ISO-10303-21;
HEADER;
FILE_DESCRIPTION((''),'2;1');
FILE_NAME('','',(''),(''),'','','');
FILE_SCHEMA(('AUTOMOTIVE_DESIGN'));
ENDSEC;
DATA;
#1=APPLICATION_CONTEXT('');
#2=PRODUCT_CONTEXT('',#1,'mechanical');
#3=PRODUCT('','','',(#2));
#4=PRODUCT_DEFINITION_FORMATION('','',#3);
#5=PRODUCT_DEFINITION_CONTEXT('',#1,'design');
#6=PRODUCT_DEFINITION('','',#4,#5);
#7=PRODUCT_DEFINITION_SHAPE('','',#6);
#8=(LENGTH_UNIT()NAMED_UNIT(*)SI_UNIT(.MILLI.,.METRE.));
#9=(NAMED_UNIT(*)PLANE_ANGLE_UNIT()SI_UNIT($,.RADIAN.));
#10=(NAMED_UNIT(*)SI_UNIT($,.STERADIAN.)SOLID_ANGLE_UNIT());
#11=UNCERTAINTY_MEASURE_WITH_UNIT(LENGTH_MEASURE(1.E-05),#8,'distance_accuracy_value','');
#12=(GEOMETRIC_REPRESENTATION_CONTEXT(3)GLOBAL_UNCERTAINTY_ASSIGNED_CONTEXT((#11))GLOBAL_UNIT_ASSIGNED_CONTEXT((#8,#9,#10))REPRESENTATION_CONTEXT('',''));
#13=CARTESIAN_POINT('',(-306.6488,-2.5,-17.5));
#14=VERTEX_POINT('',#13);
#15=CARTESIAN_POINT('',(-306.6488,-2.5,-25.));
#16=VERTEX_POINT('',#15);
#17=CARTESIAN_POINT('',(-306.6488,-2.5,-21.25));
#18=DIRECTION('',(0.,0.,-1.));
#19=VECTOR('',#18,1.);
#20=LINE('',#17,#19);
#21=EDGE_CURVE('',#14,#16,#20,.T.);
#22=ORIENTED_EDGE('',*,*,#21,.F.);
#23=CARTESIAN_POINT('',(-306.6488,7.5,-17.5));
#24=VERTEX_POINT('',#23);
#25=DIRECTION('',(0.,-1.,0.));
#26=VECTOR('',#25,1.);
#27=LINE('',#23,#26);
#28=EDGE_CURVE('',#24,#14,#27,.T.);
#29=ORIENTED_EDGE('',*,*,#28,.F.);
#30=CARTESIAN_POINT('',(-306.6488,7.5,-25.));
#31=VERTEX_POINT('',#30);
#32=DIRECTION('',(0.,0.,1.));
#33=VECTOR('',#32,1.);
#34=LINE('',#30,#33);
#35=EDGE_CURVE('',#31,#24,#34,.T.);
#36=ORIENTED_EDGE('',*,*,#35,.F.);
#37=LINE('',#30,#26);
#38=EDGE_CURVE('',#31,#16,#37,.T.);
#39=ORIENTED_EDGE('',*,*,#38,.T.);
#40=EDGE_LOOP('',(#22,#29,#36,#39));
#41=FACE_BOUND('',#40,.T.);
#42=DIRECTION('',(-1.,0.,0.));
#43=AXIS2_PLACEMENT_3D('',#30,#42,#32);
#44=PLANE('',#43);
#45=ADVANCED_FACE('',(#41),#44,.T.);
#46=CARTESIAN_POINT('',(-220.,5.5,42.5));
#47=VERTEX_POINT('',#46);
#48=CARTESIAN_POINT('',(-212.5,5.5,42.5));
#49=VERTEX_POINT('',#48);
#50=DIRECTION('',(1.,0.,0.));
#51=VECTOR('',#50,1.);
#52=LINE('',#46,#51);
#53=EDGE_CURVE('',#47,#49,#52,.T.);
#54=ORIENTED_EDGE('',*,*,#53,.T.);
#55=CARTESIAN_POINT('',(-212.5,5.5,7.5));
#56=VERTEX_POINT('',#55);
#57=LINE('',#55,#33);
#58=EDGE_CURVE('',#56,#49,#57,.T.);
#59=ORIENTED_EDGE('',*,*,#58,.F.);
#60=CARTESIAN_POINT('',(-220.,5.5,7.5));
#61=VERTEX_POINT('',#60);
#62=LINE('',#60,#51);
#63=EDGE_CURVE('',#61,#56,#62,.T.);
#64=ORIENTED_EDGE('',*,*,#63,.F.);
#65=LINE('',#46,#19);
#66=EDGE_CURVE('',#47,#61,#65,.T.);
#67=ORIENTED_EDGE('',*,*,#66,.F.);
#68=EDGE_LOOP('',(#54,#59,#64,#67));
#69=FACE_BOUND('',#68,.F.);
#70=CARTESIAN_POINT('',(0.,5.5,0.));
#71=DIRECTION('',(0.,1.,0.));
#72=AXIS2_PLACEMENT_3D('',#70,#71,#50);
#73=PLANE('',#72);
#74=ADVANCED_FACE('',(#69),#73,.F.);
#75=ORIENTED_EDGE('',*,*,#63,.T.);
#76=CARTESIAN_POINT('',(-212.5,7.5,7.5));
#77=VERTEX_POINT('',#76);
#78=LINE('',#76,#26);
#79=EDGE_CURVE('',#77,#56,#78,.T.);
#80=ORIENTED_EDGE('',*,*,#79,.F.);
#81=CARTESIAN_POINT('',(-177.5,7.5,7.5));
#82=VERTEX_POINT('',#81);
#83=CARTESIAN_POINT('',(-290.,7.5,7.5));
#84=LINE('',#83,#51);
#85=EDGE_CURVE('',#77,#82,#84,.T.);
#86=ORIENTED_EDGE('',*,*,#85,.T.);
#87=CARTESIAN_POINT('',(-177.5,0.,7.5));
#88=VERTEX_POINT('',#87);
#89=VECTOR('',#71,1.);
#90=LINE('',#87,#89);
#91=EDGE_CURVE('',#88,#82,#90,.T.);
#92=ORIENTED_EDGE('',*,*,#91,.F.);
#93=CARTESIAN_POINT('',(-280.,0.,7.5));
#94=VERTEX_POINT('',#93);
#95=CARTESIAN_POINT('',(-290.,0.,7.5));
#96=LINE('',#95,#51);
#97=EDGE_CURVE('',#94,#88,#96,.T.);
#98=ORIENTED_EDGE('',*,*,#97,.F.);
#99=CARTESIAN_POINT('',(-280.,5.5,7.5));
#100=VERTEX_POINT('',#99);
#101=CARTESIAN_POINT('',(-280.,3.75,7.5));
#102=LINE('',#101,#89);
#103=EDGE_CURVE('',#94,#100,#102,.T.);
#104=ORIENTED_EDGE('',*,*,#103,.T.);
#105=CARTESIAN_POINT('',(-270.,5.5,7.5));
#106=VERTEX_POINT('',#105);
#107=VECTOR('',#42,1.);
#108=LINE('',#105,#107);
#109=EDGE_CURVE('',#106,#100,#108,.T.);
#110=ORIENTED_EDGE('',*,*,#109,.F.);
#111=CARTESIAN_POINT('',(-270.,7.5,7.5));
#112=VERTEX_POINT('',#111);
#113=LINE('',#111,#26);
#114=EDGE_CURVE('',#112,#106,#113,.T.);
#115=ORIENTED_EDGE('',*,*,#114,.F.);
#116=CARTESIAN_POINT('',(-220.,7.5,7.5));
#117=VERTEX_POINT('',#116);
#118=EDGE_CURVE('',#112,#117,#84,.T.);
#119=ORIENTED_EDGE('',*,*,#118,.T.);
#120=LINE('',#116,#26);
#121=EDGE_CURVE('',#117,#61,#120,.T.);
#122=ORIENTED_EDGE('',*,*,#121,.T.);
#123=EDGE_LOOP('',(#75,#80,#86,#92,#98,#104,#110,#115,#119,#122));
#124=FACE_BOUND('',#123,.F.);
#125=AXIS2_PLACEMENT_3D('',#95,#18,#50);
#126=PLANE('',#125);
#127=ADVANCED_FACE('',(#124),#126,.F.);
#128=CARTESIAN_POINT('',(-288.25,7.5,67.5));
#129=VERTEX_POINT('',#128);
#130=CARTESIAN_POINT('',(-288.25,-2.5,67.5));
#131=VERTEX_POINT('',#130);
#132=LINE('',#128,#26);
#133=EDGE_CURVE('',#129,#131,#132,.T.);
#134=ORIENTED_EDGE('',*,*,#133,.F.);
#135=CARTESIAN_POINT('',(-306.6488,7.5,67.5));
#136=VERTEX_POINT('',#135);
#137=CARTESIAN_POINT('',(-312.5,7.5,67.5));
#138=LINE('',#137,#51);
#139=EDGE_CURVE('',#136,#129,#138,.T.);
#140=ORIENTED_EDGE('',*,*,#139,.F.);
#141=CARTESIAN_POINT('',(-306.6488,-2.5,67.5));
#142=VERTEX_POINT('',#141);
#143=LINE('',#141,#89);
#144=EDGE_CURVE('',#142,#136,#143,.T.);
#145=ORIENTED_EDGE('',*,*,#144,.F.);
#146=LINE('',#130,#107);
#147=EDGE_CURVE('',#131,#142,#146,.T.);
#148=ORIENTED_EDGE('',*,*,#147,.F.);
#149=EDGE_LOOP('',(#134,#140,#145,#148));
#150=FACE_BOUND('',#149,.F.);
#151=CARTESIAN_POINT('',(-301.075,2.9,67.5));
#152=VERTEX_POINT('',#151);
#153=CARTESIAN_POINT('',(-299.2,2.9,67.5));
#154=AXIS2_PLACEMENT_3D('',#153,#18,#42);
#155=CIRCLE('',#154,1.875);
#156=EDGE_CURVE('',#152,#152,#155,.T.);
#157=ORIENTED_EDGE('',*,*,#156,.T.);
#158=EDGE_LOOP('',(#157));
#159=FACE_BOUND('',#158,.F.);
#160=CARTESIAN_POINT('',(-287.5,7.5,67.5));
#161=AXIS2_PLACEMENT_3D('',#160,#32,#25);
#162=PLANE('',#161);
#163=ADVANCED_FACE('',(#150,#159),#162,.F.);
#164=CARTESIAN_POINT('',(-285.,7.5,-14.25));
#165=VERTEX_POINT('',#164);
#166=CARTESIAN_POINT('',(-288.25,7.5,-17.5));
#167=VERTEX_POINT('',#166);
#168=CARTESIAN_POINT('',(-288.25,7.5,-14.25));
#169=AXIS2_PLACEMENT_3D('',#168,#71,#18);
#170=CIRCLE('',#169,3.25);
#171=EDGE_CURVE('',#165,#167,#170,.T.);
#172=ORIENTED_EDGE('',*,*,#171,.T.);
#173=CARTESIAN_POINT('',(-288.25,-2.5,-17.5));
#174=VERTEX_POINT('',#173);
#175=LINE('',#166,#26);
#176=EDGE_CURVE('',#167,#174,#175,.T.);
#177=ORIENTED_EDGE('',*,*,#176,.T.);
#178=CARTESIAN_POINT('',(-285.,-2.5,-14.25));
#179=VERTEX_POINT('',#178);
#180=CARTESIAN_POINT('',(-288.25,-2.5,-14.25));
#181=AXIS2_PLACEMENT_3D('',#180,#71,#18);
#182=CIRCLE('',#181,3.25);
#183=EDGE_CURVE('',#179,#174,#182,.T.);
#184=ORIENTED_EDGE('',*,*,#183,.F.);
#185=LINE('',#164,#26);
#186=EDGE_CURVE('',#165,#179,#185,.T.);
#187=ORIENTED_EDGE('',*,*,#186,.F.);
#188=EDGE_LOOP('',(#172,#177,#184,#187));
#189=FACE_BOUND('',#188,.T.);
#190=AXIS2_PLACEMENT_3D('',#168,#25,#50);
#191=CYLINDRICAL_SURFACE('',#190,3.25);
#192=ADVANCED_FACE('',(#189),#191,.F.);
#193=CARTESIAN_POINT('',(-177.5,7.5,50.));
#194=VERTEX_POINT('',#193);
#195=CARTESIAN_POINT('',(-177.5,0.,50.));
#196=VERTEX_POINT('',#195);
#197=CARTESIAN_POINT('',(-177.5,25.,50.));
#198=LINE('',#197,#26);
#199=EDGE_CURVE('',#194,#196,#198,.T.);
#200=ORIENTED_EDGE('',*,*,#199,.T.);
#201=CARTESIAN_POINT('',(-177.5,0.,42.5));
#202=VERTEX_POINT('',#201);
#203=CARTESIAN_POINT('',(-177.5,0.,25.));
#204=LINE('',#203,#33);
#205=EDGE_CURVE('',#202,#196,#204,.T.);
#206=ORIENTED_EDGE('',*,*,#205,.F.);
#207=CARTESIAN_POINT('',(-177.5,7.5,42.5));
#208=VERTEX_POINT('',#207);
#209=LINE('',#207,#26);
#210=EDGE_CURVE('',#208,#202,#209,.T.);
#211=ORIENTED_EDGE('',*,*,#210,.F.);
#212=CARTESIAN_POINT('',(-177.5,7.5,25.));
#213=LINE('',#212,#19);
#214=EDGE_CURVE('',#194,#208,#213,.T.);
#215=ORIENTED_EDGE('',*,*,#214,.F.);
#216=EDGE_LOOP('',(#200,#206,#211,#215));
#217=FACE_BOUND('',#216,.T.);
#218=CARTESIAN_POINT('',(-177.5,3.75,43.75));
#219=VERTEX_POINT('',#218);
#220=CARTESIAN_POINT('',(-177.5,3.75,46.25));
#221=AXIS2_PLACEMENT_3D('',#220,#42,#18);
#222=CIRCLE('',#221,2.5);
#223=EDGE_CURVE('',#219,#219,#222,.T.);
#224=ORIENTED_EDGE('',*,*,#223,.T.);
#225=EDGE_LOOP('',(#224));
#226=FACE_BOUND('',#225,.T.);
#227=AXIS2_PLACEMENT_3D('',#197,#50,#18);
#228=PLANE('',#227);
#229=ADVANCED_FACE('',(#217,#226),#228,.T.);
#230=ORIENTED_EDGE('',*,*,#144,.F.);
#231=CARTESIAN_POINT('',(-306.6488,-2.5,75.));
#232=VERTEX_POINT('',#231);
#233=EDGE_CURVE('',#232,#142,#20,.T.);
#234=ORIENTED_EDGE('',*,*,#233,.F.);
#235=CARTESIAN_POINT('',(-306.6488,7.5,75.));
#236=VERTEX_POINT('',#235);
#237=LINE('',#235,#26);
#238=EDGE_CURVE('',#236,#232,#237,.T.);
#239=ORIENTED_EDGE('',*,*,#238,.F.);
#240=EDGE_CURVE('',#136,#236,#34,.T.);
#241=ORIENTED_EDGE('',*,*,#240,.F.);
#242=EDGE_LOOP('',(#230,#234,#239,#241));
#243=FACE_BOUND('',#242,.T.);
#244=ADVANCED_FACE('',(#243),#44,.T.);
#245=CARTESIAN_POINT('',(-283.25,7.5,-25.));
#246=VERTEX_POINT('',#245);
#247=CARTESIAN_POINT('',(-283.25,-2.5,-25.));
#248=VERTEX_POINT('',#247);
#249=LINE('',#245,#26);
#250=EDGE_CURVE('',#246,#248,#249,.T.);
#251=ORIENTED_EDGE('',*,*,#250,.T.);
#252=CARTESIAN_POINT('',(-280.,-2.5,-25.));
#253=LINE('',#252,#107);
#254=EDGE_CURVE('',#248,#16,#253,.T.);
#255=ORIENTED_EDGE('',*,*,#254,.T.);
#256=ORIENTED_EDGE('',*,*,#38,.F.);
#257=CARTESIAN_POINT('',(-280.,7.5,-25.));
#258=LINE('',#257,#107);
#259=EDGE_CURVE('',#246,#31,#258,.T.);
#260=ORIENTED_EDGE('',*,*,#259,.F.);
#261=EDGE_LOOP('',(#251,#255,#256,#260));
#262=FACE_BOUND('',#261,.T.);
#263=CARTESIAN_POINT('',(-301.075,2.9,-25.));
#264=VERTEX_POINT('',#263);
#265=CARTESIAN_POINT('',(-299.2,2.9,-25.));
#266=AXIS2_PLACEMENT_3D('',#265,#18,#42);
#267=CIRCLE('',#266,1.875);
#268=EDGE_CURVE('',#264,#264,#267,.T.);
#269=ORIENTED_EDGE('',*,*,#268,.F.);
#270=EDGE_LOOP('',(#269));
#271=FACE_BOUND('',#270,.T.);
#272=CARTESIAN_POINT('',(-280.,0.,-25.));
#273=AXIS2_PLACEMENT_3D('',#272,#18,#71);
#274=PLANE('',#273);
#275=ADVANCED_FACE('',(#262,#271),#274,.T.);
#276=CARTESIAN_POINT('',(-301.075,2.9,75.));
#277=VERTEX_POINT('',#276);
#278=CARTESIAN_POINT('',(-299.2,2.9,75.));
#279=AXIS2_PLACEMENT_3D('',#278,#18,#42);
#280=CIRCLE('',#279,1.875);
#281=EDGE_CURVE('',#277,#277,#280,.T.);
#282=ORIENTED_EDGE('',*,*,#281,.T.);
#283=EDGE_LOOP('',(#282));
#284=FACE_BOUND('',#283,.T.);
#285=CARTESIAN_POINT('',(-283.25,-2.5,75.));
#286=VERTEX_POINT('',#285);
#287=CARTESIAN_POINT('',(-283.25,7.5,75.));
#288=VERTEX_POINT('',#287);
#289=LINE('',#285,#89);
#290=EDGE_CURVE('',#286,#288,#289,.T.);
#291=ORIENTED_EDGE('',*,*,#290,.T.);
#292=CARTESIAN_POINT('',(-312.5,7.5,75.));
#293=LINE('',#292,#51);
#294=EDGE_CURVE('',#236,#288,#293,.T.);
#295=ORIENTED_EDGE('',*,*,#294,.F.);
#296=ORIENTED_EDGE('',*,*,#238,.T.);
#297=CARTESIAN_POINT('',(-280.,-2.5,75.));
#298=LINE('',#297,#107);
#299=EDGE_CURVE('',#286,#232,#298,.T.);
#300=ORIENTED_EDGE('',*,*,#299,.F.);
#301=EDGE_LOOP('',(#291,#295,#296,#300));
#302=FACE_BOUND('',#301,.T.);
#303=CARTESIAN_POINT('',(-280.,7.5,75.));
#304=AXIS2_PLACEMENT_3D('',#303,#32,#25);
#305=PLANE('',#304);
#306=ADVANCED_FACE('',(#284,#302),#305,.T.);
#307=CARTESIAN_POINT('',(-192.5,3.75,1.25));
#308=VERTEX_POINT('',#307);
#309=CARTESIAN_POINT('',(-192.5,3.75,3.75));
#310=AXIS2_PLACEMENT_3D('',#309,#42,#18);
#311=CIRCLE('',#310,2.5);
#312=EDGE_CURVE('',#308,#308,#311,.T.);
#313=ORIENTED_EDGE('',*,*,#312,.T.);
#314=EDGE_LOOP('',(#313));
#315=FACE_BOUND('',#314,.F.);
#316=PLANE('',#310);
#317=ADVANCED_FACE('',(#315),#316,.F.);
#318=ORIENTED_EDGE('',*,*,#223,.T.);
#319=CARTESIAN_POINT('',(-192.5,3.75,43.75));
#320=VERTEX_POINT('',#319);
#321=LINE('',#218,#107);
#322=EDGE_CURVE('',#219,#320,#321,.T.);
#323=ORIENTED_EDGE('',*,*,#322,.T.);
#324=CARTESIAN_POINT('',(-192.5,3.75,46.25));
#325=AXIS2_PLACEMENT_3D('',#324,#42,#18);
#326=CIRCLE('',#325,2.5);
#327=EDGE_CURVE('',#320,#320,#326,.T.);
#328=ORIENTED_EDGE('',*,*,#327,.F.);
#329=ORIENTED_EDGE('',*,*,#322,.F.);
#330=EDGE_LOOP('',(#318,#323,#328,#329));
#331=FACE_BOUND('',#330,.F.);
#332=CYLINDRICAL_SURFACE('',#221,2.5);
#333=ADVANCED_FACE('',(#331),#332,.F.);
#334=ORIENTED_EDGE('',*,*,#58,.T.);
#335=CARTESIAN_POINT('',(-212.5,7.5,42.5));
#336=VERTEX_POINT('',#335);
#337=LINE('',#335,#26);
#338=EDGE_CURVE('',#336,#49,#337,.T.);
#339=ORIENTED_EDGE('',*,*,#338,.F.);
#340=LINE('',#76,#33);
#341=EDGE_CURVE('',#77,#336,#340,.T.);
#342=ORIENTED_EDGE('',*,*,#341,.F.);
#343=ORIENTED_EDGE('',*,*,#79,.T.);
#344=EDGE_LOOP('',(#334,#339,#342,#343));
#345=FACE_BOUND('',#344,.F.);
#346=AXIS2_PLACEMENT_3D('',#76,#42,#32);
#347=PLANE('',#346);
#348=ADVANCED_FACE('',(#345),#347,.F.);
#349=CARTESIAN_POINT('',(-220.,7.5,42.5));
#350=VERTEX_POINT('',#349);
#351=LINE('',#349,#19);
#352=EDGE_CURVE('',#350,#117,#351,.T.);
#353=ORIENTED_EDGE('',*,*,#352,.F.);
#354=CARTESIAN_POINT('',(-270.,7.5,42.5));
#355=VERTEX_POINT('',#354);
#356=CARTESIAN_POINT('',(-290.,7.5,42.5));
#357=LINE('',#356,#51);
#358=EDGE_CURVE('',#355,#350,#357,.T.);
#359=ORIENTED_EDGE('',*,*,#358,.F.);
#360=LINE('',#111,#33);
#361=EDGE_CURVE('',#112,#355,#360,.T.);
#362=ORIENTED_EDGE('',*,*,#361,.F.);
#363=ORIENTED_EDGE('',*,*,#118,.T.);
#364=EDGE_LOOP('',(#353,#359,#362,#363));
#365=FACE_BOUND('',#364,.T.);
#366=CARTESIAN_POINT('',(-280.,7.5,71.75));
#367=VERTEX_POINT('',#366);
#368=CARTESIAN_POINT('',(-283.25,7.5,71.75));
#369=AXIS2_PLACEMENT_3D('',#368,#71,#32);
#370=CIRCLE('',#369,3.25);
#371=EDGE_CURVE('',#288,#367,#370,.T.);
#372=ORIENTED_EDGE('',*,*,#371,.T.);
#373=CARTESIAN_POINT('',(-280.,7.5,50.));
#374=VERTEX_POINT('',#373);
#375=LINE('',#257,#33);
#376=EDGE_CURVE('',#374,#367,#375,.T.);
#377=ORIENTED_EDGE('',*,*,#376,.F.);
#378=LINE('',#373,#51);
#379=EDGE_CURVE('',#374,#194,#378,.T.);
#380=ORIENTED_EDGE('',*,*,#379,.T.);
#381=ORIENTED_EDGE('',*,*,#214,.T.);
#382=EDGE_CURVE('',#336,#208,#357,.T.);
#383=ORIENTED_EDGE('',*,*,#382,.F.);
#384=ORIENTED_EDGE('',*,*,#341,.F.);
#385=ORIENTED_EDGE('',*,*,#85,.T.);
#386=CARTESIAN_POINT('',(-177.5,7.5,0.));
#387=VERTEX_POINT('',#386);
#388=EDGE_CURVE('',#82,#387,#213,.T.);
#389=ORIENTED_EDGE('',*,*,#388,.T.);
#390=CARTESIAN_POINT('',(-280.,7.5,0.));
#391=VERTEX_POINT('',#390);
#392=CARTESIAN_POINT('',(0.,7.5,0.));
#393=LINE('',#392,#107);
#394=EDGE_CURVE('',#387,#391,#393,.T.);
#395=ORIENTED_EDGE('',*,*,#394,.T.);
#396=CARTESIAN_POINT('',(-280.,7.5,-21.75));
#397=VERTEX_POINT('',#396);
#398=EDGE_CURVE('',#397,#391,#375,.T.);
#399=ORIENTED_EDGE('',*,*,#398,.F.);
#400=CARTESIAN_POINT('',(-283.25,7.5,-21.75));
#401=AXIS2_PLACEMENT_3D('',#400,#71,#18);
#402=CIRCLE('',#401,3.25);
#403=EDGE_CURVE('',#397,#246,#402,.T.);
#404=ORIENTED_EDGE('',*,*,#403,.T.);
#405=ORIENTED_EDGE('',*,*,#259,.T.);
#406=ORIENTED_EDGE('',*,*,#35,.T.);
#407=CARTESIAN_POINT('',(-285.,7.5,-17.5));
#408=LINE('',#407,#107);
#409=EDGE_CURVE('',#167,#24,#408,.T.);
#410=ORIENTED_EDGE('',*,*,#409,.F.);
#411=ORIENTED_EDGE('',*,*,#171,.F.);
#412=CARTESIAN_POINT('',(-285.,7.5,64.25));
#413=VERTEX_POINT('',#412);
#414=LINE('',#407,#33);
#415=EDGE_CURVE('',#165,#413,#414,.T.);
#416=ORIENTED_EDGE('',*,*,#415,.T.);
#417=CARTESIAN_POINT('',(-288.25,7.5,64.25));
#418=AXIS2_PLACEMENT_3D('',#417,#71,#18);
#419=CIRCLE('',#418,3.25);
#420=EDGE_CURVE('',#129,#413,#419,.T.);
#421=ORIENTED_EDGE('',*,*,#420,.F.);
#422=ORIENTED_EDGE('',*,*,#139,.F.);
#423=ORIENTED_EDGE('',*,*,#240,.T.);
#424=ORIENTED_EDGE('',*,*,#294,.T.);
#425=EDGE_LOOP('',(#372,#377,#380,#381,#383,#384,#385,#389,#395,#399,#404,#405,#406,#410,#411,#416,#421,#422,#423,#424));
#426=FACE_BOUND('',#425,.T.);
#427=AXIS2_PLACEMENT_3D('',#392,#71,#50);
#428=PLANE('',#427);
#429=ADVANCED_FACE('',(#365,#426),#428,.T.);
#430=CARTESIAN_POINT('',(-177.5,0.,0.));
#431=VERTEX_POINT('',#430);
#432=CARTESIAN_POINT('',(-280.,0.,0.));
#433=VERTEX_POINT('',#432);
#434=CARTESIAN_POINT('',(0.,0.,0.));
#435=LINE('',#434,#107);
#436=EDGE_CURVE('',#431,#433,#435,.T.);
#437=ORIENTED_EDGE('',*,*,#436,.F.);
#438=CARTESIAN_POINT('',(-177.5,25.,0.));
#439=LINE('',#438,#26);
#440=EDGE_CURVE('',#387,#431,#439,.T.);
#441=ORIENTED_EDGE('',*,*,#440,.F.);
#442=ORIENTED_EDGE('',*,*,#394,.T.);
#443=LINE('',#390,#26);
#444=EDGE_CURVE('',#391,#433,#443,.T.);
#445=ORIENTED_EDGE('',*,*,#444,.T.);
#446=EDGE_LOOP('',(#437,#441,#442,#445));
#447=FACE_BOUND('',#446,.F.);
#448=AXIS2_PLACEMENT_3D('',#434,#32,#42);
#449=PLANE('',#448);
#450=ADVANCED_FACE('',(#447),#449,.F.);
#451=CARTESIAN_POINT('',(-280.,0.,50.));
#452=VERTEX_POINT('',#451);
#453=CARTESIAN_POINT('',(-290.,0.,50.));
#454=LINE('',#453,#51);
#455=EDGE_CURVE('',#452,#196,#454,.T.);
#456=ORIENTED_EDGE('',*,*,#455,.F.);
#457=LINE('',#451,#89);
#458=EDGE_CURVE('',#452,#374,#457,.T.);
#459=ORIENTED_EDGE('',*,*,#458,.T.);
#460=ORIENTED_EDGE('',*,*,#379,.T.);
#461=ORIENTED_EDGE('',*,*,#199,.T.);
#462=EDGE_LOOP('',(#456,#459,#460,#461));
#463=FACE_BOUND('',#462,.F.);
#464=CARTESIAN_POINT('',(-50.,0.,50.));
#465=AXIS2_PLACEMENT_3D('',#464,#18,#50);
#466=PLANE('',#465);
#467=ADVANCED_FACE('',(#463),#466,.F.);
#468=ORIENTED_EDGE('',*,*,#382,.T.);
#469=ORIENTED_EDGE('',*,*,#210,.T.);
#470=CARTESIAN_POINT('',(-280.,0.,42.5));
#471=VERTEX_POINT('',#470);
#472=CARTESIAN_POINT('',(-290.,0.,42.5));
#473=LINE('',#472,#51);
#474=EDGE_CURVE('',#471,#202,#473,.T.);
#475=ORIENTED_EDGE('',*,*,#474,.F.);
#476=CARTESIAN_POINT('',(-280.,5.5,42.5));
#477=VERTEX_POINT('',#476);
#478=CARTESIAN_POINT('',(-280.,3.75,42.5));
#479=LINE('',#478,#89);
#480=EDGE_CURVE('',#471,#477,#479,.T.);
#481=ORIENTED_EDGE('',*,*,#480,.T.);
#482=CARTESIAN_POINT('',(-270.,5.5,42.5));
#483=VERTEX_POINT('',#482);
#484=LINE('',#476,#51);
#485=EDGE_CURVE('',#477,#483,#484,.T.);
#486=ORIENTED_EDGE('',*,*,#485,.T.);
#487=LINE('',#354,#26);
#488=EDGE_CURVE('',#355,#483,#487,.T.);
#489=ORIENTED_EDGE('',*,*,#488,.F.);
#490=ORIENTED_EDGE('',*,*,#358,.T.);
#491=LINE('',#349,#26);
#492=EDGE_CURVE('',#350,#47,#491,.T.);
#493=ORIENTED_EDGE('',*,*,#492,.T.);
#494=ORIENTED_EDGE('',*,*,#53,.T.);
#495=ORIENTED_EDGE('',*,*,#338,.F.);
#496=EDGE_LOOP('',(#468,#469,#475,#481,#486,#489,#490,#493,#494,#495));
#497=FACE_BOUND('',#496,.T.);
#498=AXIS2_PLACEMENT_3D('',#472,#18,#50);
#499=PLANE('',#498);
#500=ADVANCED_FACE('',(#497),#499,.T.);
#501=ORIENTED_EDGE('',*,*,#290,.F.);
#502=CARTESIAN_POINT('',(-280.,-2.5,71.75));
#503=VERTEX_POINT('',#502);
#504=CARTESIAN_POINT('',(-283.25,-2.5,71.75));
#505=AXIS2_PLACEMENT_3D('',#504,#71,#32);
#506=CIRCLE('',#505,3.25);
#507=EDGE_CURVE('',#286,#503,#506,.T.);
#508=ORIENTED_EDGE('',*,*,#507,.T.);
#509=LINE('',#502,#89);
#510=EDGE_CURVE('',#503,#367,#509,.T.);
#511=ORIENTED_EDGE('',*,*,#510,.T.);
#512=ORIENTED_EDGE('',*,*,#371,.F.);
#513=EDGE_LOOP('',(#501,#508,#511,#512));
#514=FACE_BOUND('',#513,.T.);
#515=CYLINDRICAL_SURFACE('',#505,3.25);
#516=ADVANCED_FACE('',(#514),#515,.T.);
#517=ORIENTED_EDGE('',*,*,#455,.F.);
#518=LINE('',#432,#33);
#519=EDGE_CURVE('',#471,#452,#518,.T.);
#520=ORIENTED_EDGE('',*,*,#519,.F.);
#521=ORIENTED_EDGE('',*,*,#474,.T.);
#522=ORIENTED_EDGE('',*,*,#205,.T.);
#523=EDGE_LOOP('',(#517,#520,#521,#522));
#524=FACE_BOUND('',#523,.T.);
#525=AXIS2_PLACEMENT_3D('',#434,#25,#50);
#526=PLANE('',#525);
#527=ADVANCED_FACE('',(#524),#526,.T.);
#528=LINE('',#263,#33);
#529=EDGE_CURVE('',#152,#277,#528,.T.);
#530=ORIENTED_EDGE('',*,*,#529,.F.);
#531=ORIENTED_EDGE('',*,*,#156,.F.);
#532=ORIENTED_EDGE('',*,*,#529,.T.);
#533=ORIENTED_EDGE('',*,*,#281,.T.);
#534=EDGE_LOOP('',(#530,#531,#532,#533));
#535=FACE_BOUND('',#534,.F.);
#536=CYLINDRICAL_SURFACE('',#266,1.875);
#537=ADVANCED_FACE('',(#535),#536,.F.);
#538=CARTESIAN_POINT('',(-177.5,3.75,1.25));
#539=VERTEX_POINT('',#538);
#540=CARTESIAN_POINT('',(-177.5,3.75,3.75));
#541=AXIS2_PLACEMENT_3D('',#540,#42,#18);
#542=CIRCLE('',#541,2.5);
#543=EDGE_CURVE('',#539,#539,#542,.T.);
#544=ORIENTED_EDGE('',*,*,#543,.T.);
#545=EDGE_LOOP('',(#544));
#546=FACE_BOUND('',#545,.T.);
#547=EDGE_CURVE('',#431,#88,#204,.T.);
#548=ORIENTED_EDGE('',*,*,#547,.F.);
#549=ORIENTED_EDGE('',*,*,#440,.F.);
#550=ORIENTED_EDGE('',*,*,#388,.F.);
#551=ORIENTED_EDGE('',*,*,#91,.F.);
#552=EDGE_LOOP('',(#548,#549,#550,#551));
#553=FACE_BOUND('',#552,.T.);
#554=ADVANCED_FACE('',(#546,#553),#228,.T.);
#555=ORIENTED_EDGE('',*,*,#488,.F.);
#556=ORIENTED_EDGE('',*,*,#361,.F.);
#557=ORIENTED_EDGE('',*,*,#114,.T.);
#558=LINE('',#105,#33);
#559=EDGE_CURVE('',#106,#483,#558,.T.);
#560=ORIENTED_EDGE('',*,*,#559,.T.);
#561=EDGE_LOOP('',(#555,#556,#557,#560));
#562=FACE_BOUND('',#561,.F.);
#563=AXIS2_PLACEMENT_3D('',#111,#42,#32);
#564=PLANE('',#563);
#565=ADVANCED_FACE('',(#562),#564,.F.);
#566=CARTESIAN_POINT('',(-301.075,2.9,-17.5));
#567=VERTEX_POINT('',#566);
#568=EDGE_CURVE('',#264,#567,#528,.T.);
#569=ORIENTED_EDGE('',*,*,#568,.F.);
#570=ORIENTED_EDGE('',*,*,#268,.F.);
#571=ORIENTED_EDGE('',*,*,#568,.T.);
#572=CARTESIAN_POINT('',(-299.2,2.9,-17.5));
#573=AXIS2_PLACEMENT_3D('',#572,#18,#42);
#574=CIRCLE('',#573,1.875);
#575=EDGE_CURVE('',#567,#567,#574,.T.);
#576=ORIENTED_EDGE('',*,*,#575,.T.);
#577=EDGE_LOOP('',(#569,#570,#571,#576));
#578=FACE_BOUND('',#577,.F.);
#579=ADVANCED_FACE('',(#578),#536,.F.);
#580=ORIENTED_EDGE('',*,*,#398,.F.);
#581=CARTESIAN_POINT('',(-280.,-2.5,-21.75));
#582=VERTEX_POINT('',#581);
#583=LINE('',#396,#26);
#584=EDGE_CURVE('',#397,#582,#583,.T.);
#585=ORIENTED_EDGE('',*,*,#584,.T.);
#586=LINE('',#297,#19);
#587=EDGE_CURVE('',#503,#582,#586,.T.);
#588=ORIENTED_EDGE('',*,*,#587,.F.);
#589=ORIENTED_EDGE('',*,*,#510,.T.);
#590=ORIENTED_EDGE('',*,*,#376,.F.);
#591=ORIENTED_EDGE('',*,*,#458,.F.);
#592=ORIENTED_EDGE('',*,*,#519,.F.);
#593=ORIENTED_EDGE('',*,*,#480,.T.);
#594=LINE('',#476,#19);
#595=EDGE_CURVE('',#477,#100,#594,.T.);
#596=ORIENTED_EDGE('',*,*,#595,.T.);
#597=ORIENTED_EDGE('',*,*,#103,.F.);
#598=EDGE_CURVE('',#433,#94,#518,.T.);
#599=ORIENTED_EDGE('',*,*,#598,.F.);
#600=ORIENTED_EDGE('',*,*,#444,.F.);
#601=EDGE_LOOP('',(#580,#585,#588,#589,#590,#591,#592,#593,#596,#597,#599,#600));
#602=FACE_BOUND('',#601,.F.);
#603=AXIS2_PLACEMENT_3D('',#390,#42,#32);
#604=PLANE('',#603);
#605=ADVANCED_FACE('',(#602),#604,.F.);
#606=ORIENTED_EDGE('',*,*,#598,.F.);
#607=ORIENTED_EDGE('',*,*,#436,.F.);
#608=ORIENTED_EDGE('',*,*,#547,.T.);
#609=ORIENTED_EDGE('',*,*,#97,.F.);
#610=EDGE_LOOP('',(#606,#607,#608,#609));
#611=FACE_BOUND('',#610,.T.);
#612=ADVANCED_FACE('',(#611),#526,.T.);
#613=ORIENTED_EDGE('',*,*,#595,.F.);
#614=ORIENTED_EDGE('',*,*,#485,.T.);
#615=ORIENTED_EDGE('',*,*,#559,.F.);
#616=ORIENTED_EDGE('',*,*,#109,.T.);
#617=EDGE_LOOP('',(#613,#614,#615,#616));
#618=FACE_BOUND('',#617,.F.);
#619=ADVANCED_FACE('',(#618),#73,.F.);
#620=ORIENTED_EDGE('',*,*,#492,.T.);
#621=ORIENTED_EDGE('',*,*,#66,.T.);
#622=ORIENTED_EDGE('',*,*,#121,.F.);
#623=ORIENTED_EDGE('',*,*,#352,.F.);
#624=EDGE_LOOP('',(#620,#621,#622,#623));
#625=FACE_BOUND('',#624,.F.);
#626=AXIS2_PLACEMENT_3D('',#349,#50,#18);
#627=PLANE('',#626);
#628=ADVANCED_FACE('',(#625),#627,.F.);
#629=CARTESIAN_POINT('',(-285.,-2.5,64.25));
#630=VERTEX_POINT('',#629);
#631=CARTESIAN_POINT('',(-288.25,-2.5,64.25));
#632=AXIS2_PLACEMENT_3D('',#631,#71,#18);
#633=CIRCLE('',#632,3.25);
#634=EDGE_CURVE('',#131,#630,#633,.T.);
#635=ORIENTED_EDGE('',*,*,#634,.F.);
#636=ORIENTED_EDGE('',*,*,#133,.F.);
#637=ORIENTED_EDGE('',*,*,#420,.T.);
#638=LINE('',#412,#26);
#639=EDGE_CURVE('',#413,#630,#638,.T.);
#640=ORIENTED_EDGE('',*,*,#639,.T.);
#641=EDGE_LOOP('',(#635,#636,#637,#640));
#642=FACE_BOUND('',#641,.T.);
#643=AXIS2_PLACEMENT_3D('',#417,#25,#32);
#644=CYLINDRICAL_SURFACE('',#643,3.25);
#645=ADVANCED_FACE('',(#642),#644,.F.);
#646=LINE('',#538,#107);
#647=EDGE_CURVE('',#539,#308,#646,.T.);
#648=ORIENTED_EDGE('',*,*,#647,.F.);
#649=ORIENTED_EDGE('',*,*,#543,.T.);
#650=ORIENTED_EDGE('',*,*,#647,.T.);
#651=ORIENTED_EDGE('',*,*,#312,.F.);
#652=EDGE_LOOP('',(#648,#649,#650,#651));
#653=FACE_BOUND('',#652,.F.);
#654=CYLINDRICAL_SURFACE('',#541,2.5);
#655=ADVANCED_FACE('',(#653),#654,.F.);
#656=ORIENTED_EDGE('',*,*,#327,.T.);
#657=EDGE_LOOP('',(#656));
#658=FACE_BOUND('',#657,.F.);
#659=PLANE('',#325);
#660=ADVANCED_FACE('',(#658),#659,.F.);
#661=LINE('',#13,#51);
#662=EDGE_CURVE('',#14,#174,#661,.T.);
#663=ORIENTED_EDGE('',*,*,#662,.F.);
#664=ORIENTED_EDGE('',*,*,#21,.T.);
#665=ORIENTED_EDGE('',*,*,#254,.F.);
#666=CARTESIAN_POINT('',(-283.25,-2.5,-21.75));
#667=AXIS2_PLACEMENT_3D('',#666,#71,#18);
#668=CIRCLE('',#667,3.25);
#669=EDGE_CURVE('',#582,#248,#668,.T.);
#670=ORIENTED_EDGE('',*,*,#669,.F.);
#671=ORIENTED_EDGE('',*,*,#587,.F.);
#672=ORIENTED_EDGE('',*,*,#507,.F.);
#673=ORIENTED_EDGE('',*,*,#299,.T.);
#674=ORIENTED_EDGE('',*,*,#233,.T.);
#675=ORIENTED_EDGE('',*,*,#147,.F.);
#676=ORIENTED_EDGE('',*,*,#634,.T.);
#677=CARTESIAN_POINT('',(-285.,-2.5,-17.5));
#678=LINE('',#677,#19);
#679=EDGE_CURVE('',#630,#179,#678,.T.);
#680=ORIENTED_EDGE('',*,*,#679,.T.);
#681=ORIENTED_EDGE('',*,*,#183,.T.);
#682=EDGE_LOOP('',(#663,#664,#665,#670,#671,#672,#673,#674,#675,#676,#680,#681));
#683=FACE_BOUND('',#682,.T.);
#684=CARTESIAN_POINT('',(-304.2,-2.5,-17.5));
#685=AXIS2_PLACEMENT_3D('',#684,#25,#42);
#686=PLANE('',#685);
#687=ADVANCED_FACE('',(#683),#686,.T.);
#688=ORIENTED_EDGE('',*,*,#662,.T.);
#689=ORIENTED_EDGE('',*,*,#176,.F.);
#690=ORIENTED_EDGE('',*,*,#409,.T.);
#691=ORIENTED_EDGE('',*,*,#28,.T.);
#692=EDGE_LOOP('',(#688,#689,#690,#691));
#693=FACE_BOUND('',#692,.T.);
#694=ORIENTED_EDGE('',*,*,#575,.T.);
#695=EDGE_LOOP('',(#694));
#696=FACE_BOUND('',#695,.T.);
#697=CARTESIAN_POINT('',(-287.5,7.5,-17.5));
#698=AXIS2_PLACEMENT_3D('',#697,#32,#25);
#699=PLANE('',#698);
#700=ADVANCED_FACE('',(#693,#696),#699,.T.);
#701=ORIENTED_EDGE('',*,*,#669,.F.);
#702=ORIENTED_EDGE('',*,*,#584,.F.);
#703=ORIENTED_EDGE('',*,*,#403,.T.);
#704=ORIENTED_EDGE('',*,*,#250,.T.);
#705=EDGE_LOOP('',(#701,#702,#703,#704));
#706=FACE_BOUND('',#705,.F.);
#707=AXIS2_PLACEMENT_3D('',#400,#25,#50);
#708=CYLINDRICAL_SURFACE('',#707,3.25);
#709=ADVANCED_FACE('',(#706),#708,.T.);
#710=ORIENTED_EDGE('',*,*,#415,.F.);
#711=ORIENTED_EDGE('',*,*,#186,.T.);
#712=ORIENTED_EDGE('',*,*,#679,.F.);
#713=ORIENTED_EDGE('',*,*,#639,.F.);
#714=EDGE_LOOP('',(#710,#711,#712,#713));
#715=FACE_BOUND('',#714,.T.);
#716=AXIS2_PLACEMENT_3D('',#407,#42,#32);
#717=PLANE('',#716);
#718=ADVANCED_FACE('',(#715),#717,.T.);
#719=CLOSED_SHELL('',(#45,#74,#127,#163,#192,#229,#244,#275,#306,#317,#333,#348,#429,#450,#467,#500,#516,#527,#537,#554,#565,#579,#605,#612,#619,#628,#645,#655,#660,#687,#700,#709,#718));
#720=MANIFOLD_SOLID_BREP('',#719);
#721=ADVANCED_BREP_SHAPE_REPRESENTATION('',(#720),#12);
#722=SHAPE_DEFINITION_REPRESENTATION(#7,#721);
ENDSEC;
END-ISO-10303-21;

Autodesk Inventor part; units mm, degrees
ref_plane "YZ Plane" through (0, 0, 0) normal (1, 0, 0) x (0, 1, 0)
ref_plane "XZ Plane" through (0, 0, 0) normal (0, 1, 0) x (-1, 0, 0)
ref_plane "XY Plane" through (0, 0, 0) normal (0, 0, 1) x (1, 0, 0)
sketch "Sketch1" plane through (0, 0, 0) normal (0, 1, 0) x (-1, 0, 0)
  line L0 (0, 0) -> (50, 0)
  line L1 (50, 0) -> (50, 50)
  line L2 (50, 50) -> (0, 50)
  line L3 (0, 50) -> (0, 0)
  line L4 (50, 50) -> (290, 50)
  line L5 (290, 50) -> (290, 42.5)
  line L6 (290, 42.5) -> (50, 42.5)
  line L7 (50, 42.5) -> (50, 50)
  line L8 (50, 0) -> (290, 0)
  line L9 (290, 0) -> (290, 7.5)
  line L10 (290, 7.5) -> (50, 7.5)
  line L11 (50, 7.5) -> (50, 0)
  dimension "d0" = 50
  dimension "d1" = 50
  dimension "d2" = 240
  dimension "d3" = 7.5
  dimension "d4" = 7.5
extrude "Extrusion1" add sketch "Sketch1" along normal blind 7.5
sketch "Sketch2" plane through (0, 7.5, 0) normal (0, 1, 0) x (1, 0, 0)
  line L0 (0, -50) -> (0, 0) projected
  point P0 (0, -25)
hole "Hole1" at (0, 7.5, 25) direction (0, -1, 0) diameter 6.35 end through all
sketch "Sketch3" plane through (0, 7.5, 0) normal (0, 1, 0) x (1, 0, 0)
  line L0 (-3.175, -50) -> (-3.175, 0) construction
  line L1 (-3.175, -50) -> (-28.175, -50) construction
  line L2 (-28.175, -50) -> (-28.175, 0) construction
  line L3 (-28.175, 0) -> (-3.175, 0) construction
  point P0 (0, 0)
  point P1 (-7.175, -4)
  point P2 (-24.175, -46)
  dimension "d14" = 25
hole "Hole2" at (-7.175, 7.5, 4) at (-24.175, 7.5, 46) direction (0, -1, 0) diameter 3.3 end through all
sketch "Sketch4" plane through (0, 7.5, 0) normal (0, 1, 0) x (1, 0, 0)
  arc A0 (0, -21.825) -> (0, -28.175) centre (0, -25) ccw construction
  line L0 (-3.175, -25) -> (-28.175, -25) construction
  line L1 (-3.175, -25) -> (21.825, -25) construction
  line L2 (-290, -50) -> (0, -50) construction
  line L3 (-28.175, -50) -> (-28.175, 0) construction
  line L4 (-50, -7.5) -> (-50, -42.5) construction
  line L5 (-50, -42.5) -> (-45, -42.5) construction
  line L6 (-45, -42.5) -> (-45, -32.5) construction
  line L7 (-45, -32.5) -> (-50, -32.5) construction
  line L8 (-50, -32.5) -> (-50, -42.5) construction
  line L9 (-45, -32.5) -> (-40, -32.5)
  line L10 (-40, -32.5) -> (-40, -42.5)
  line L11 (-40, -42.5) -> (-45, -42.5)
  line L12 (-45, -42.5) -> (-45, -32.5)
  point P0 (0, 0)
  dimension "d22" = 25
  dimension "d23" = 180
  dimension "d24" = 5
  dimension "d25" = 10
  dimension "d26" = 5
extrude "Extrusion2" add sketch "Sketch4" along normal blind 17.5
sketch "Sketch5" plane through (0, 7.5, 0) normal (0, 1, 0) x (1, 0, 0)
  line L0 (-85, -7.5) -> (-85, -42.5)
  line L1 (-127.5, -7.5) -> (-127.5, -42.5)
  line L2 (-92.5, -42.5) -> (-92.5, -7.5)
  line L3 (-135, -7.5) -> (-170, -7.5) construction
  line L4 (-170, -7.5) -> (-170, -42.5) construction
  line L5 (-170, -42.5) -> (-135, -42.5) construction
  line L6 (-135, -42.5) -> (-135, -7.5) construction
  line L7 (-177.5, -7.5) -> (-212.5, -7.5) construction
  line L8 (-212.5, -7.5) -> (-212.5, -42.5) construction
  line L9 (-212.5, -42.5) -> (-177.5, -42.5) construction
  line L10 (-177.5, -42.5) -> (-177.5, -7.5) construction
  line L11 (-220, -7.5) -> (-255, -7.5) construction
  line L12 (-255, -7.5) -> (-255, -42.5) construction
  line L13 (-255, -42.5) -> (-220, -42.5) construction
  line L14 (-220, -42.5) -> (-220, -7.5) construction
  line L15 (-85, -7.5) -> (-92.5, -7.5) construction
  line L16 (-92.5, -7.5) -> (-92.5, -42.5) construction
  line L17 (-92.5, -42.5) -> (-85, -42.5) construction
  line L18 (-85, -42.5) -> (-85, -7.5) construction
  line L19 (-127.5, -7.5) -> (-135, -7.5) construction
  line L20 (-135, -7.5) -> (-135, -42.5) construction
  line L21 (-135, -42.5) -> (-127.5, -42.5) construction
  line L22 (-127.5, -42.5) -> (-127.5, -7.5) construction
  line L23 (-170, -7.5) -> (-177.5, -7.5) construction
  line L24 (-177.5, -7.5) -> (-177.5, -42.5) construction
  line L25 (-177.5, -42.5) -> (-170, -42.5) construction
  line L26 (-170, -42.5) -> (-170, -7.5) construction
  line L27 (-212.5, -7.5) -> (-220, -7.5) construction
  line L28 (-220, -7.5) -> (-220, -42.5) construction
  line L29 (-220, -42.5) -> (-212.5, -42.5) construction
  line L30 (-212.5, -42.5) -> (-212.5, -7.5) construction
  line L31 (-220, -7.5) -> (-212.5, -7.5)
  line L32 (-212.5, -7.5) -> (-212.5, -42.5)
  line L33 (-212.5, -42.5) -> (-220, -42.5)
  line L34 (-220, -42.5) -> (-220, -7.5)
  line L35 (-177.5, -7.5) -> (-170, -7.5)
  line L36 (-170, -7.5) -> (-170, -42.5)
  line L37 (-170, -42.5) -> (-177.5, -42.5)
  line L38 (-177.5, -42.5) -> (-177.5, -7.5)
  line L39 (-135, -7.5) -> (-127.5, -7.5)
  line L40 (-127.5, -7.5) -> (-127.5, -42.5)
  line L41 (-127.5, -42.5) -> (-135, -42.5)
  line L42 (-135, -42.5) -> (-135, -7.5)
  line L43 (-92.5, -7.5) -> (-85, -7.5)
  line L44 (-85, -7.5) -> (-85, -42.5)
  line L45 (-85, -42.5) -> (-92.5, -42.5)
  line L46 (-92.5, -42.5) -> (-92.5, -7.5)
  point P0 (0, 0)
  point P1 (-50, -7.5)
  dimension "d30" = 35
  dimension "d31" = 35
  dimension "d32" = 35
  dimension "d33" = 35
  dimension "d34" = 35
  dimension "d35" = 35
extrude "Extrusion3" add sketch "Sketch5" against normal blind 2
sketch "Sketch6" plane through (0, 7.5, 0) normal (0, 1, 0) x (1, 0, 0)
  line L0 (-290, 0) -> (-290, -7.5) projected
  line L1 (-290, -50) -> (0, -50) projected
  line L2 (-290, 0) -> (-280, 0)
  line L3 (-280, 0) -> (-280, -50)
  line L4 (-280, -50) -> (-290, -50)
  line L5 (-290, -50) -> (-290, 0)
  point P0 (0, 0)
  dimension "d38" = 10
extrude "Extrusion4" cut sketch "Sketch6" against normal blind 7.5
sketch "Sketch7" plane through (-280, 7.5, 0) normal (-1, 0, 0) x (0, 0, 1)
  point P0 (0, -7.5)
sketch "Sketch8" plane through (-280, 7.5, 0) normal (-1, 0, 0) x (0, 0, 1)
  line L0 (-25, 0) -> (75, 0)
  line L1 (75, 0) -> (75, -7.5)
  line L2 (75, -7.5) -> (-25, -7.5)
  line L3 (-25, -7.5) -> (-25, 0)
  line L4 (-25, 0) -> (75, 0)
  line L5 (75, 0) -> (75, -10)
  line L6 (75, -10) -> (-25, -10)
  line L7 (-25, -10) -> (-25, 0)
  point P0 (0, -7.5)
  dimension "d41" = 100
  dimension "d42" = 10
extrude "Extrusion5" add sketch "Sketch8" along normal blind 7.5
sketch "Sketch9" plane through (-287.5, 7.5, 0) normal (-1, 0, 0) x (0, 0, 1)
  line L0 (75, 0) -> (-25, 0) projected
  line L1 (-25, -10) -> (75, -10) projected
  line L2 (-25, 0) -> (-17.5, 0)
  line L3 (-17.5, 0) -> (-17.5, -10)
  line L4 (-17.5, -10) -> (-25, -10)
  line L5 (-25, -10) -> (-25, 0)
  line L6 (75, 0) -> (67.5, 0)
  line L7 (67.5, 0) -> (67.5, -10)
  line L8 (67.5, -10) -> (75, -10)
  line L9 (75, -10) -> (75, 0)
  point P0 (0, -7.5)
  dimension "d45" = 7.5
  dimension "d46" = 7.5
extrude "Extrusion6" add sketch "Sketch9" along normal blind 25 contours L9 L1 L7 L0 | L3 L1 L5 L0
sketch "Sketch10" plane through (-287.5, -2.5, -17.5) normal (0, 0, 1) x (1, 0, 0)
  line L0 (0, 0) -> (-25, 0) construction
  line L1 (0, 0) -> (-3, 0) construction
  line L2 (-3, 0) -> (-6.2, 0)
  line L3 (-6.2, 0) -> (-6.2, 2.1)
  line L4 (-6.2, 2.1) -> (-3, 2.1)
  line L5 (-3, 2.1) -> (-3, 0)
  line L6 (-6.2, 2.1) -> (-11.7, 2.1) construction
  line L7 (-11.7, 2.1) -> (-11.7, 5.4) construction
  point P0 (287.5, 2.5)
  dimension "d49" = 3
  dimension "d50" = 3.2
  dimension "d51" = 2.1
  dimension "d52" = 5.5
  dimension "d53" = 3.3
extrude "Extrusion7" add sketch "Sketch10" along normal blind 92.5
sketch "Sketch11" plane through (-287.5, -2.5, -17.5) normal (0, 0, 1) x (1, 0, 0)
  line L0 (-6.2, 2.1) -> (-3, 2.1) construction
  line L1 (-6.2, 2.1) -> (-11.7, 2.1) construction
  line L2 (-11.7, 2.1) -> (-11.7, 5.4) construction
  circle A0 centre (-11.7, 5.4) radius 2.125
  point P0 (287.5, 2.5)
  dimension "d56" = 5.5
  dimension "d57" = 3.3
  dimension "d58" = 4.25
extrude "Extrusion8" cut sketch "Sketch11" along normal mid plane 241
sketch "Sketch12" plane through (-287.5, -2.5, -17.5) normal (0, 0, 1) x (1, 0, 0)
  circle A0 centre (-11.7, 5.4) radius 2.125 construction
  line L0 (-11.7, 5.4) -> (-11.7, 0.96) construction
  line L1 (-11.7, 0.96) -> (-16.7, 0.96) construction
  line L2 (-6.2, 0) -> (-25, 0) projected
  line L3 (-16.7, 0.96) -> (-19.2, 0.96)
  line L4 (-19.2, 0.96) -> (-19.2, 0)
  line L5 (-19.2, 0) -> (-16.7, 0)
  line L6 (-16.7, 0) -> (-16.7, 0.96)
  point P0 (287.5, 2.5)
  dimension "d61" = 4.44
  dimension "d62" = 5
  dimension "d63" = 2.5
extrude "Extrusion9" add sketch "Sketch12" along normal blind 91.25
sketch "Sketch13" plane through (-293.7, -0.4, -17.5) normal (0, 1, 0) x (1, 0, 0)
  line L0 (3.2, 0) -> (3.2, -85) construction
  line L1 (3.2, 0) -> (3.2, -30) construction
  line L2 (0, 0) -> (0, -85) construction
  line L3 (3.2, -30) -> (0, -30) construction
  line L4 (0, -30) -> (0, -36.35) construction
  line L5 (0, -36.35) -> (3.2, -36.35) construction
  line L6 (3.2, -36.35) -> (3.2, -30) construction
  line L7 (0, -30) -> (3.2, -30)
  line L8 (3.2, -30) -> (3.2, -36.35)
  line L9 (3.2, -36.35) -> (0, -36.35)
  line L10 (0, -36.35) -> (0, -30)
  point P0 (293.7, -17.5)
  dimension "d66" = 30
  dimension "d67" = 6.35
extrude "Extrusion10" add sketch "Sketch13" along normal blind 3.8
sketch "Sketch14" plane through (0, 7.5, 0) normal (0, 1, 0) x (1, 0, 0)
  line L0 (-287.5, 17.5) -> (-287.5, -67.5) projected
  line L1 (-287.5, 17.5) -> (-285, 17.5)
  line L2 (-285, 17.5) -> (-285, -67.5)
  line L3 (-285, -67.5) -> (-287.5, -67.5)
  line L4 (-287.5, -67.5) -> (-287.5, 17.5)
  point P0 (0, 0)
  dimension "d70" = 2.5
extrude "Extrusion11" cut sketch "Sketch14" against normal blind 14.55
sketch "Sketch15" plane through (0, 7.5, 0) normal (0, 1, 0) x (1, 0, 0)
  line L0 (-312.5, 17.5) -> (-312.5, 25) projected
  line L1 (-280, -75) -> (-312.5, -75) projected
  line L2 (-312.5, 25) -> (-306.6488, 25)
  line L3 (-306.6488, 25) -> (-306.6488, -75)
  line L4 (-306.6488, -75) -> (-312.5, -75)
  line L5 (-312.5, -75) -> (-312.5, 25)
  point P0 (0, 0)
extrude "Extrusion12" cut sketch "Sketch15" against normal blind 14.55
fillet "Fillet1" radius 0.1 1 edges at (-301.325, 2.9, -17.5)
fillet "Fillet2" radius 0.1 1 edges at (-301.325, 2.9, 67.5)
fillet "Fillet3" radius 3.25 1 edges at (-280, 2.5, 75)
fillet "Fillet4" radius 3.25 1 edges at (-285, 2.5, 67.5)
fillet "Fillet5" radius 3.25 1 edges at (-280, 2.5, -25)
fillet "Fillet6" radius 3.25 1 edges at (-285, 2.5, -17.5)
sketch "Sketch16" plane through (0, 7.5, 0) normal (0, 1, 0) x (1, 0, 0)
  line L0 (-220, -42.5) -> (-220, -7.5) construction
  line L1 (-220, -42.5) -> (-280, -42.5) construction
  line L2 (-220, -7.5) -> (-255, -7.5) construction
  line L3 (-255, -7.5) -> (-255, -42.5) construction
  line L4 (-255, -42.5) -> (-220, -42.5) construction
  line L5 (-220, -42.5) -> (-220, -7.5) construction
  line L6 (-280, -7.5) -> (-280, 0) projected
  line L7 (-280, -7.5) -> (-270, -7.5)
  line L8 (-270, -7.5) -> (-270, -42.5)
  line L9 (-270, -42.5) -> (-280, -42.5)
  line L10 (-280, -42.5) -> (-280, -7.5)
  point P0 (0, 0)
  dimension "d81" = 35
  dimension "d82" = 10
extrude "Extrusion13" add sketch "Sketch16" against normal blind 2
sketch "Sketch17" plane through (0, 7.5, 0) normal (0, 1, 0) x (1, 0, 0)
  point P0 (0, 0)
sketch "Sketch18" plane through (0, 7.5, 0) normal (0, 1, 0) x (1, 0, 0)
  line L0 (-270, -7.5) -> (-270, -42.5) construction
  line L1 (-285, -64.25) -> (-285, 14.25) construction
  line L2 (-280, -7.5) -> (-280, 0) construction
  line L3 (-270, -7.5) -> (-280, -7.5) construction
  line L4 (-275, -7.5) -> (-275, -42.5) construction
  line L5 (-50, -42.5) -> (-280, -42.5) construction
  circle A0 centre (-275, -12.5) radius 1.8 construction
  circle A1 centre (-275, -37.5) radius 1.8 construction
  circle A2 centre (-275, -12.5) radius 1.8
  circle A3 centre (-275, -37.5) radius 1.8
  point P0 (0, 0)
  dimension "d85" = 3.6
  dimension "d86" = 3.6
hole "Hole3" at (-275, 7.5, 12.5) at (-275, 7.5, 37.5) direction (0, -1, 0) diameter 3.3 depth 15 tip angle 118
sketch "Sketch19" plane through (0, 7.5, 0) normal (0, 1, 0) x (1, 0, 0)
  circle A0 centre (-275, -12.5) radius 1.65 construction
  line L0 (-275, -12.5) -> (-212.5, -12.5) construction
  line L1 (-212.5, -7.5) -> (-212.5, -42.5) construction
  circle A1 centre (-275, -37.5) radius 1.65 construction
  line L2 (-275, -37.5) -> (-212.5, -37.5) construction
  line L3 (-220, -42.5) -> (-220, -7.5) construction
  line L4 (-220, -12.5) -> (-212.5, -12.5) construction
  line L5 (-216.25, -12.5) -> (-216.25, -37.5) construction
  point P0 (0, 0)
hole "Hole4" at (-216.25, 7.5, 12.5) at (-216.25, 7.5, 37.5) direction (0, -1, 0) diameter 3.3 depth 15 tip angle 118
sketch "Sketch20" plane through (-45, 7.5, 32.5) normal (-1, 0, 0) x (0, 0, 1)
  line L0 (10, 17.5) -> (0, 17.5) construction
  line L1 (5, 17.5) -> (5, -0.1335) construction
  line L2 (10, 0) -> (10, 17.5) construction
  line L3 (10, 12.5) -> (5, 12.5) construction
  circle A0 centre (5, 12.5) radius 3
  point P0 (-32.5, -7.5)
  dimension "d101" = 6
extrude "Extrusion14" cut sketch "Sketch20" against normal blind 20
sketch "Sketch21" plane through (0, 7.5, 0) normal (0, 1, 0) x (1, 0, 0)
  line L0 (-306.6488, 17.5) -> (-306.6488, -67.5) projected
  line L1 (-306.6488, 17.5) -> (-288.25, 17.5) projected
  line L2 (-306.6488, -67.5) -> (-288.25, -67.5)
  line L3 (-288.25, -67.5) -> (-288.25, 17.5)
  line L4 (-288.25, 17.5) -> (-306.6488, 17.5)
  line L5 (-306.6488, 17.5) -> (-306.6488, -67.5)
  point P0 (0, 0)
extrude "Extrusion15" cut sketch "Sketch21" against normal blind 10
sketch "Sketch22" plane through (0, 7.5, 0) normal (0, 1, 0) x (1, 0, 0)
  line L0 (-280, -50) -> (0, -50) projected
  line L1 (0, 0) -> (-280, 0) projected
  line L2 (-280, -50) -> (-270.5687, -50)
  line L3 (-270.5687, -50) -> (-270.5687, 0)
  line L4 (-270.5687, 0) -> (-280, 0)
  line L5 (-280, 0) -> (-280, -50)
  line L6 (-50, -42.5) -> (-280, -42.5) projected
  line L7 (-219.3019, -42.5) -> (-213.3073, -42.5)
  line L8 (-213.3073, -42.5) -> (-213.3073, -8.284)
  line L9 (-213.3073, -8.284) -> (-219.3019, -8.284)
  line L10 (-219.3019, -8.284) -> (-219.3019, -42.5)
extrude "Extrusion16" add sketch "Sketch22" against normal blind 2
sketch "Sketch23" plane through (-306.6488, -2.5, -25) normal (0, 0, -1) x (-1, 0, 0)
  circle A0 centre (-7.4488, 5.4) radius 2.125 projected
  circle A1 centre (-7.4488, 5.4) radius 2
  circle A2 centre (-7.4488, 5.4) radius 2.4429
  point P0 (-306.6488, 2.5)
  dimension "d108" = 4
extrude "Extrusion17" add sketch "Sketch23" against normal blind 100 contours A0 | A2
sketch "Sketch24" plane through (0, 7.5, 0) normal (0, 1, 0) x (1, 0, 0)
  line L0 (-288.25, -67.5) -> (-306.6488, -67.5) projected
  arc A0 (-285, 14.25) -> (-288.25, 17.5) centre (-288.25, 14.25) ccw projected
  line L1 (-306.6488, -67.5) -> (-288.25, -67.5)
  line L2 (-288.25, -67.5) -> (-288.25, 17.5)
  line L3 (-288.25, 17.5) -> (-306.6488, 17.5)
  line L4 (-306.6488, 17.5) -> (-306.6488, -67.5)
  point P0 (0, 0)
extrude "Extrusion18" cut sketch "Sketch24" against normal blind 100
sketch "Sketch25" plane through (0, 7.5, 0) normal (0, 1, 0) x (1, 0, 0)
  line L0 (-50, -42.5) -> (-280, -42.5) projected
  line L1 (-280, -7.5) -> (-50, -7.5) projected
  line L2 (-50, -42.5) -> (-55, -42.5)
  line L3 (-55, -42.5) -> (-55, -7.5)
  line L4 (-55, -7.5) -> (-50, -7.5)
  line L5 (-50, -7.5) -> (-50, -42.5)
  point P0 (0, 0)
  dimension "d113" = 5
extrude "Extrusion19" add sketch "Sketch25" against normal blind 2
sketch "Sketch26" plane through (0, 7.5, 0) normal (0, 1, 0) x (1, 0, 0)
  line L0 (-55, -42.5) -> (-85, -42.5) construction
  line L1 (-55, -42.5) -> (-50, -42.5) construction
  line L2 (-55, -42.5) -> (-50, -42.5) construction
  line L3 (-50, -42.5) -> (-50, -7.5) construction
  line L4 (-50, -42.5) -> (-50, -7.5) construction
  circle A0 centre (-50, -37.5) radius 1.65 construction
  circle A1 centre (-50, -12.5) radius 1.65 construction
  circle A2 centre (-50, -37.5) radius 1.65
  circle A3 centre (-50, -12.5) radius 1.65
  line L5 (-50, -37.5) -> (-92.5, -37.5) construction
  line L6 (-92.5, -42.5) -> (-92.5, -7.5) construction
  line L7 (-50, -12.5) -> (-92.5, -12.5) construction
  line L8 (-92.5, -37.5) -> (-85, -37.5) construction
  line L9 (-85, -7.5) -> (-85, -42.5) construction
  line L10 (-88.75, -37.5) -> (-88.75, -12.5) construction
  circle A4 centre (-88.75, -37.5) radius 1.65
  circle A5 centre (-88.75, -12.5) radius 1.65
  point P0 (0, 0)
  dimension "d116" = 3.3
  dimension "d117" = 3.3
  dimension "d118" = 3.3
  dimension "d119" = 3.3
extrude "Extrusion20" cut sketch "Sketch26" against normal blind 2
sketch "Sketch27" plane through (0, 5.5, 0) normal (0, -1, 0) x (1, 0, 0)
  line L0 (-50, 7.5) -> (-55, 7.5) projected
  line L1 (-55, 7.5) -> (-46.6169, 7.5)
  line L2 (-46.6169, 7.5) -> (-46.6169, 42.5)
  line L3 (-46.6169, 42.5) -> (-55, 42.5)
  line L4 (-55, 42.5) -> (-55, 7.5)
  point P0 (0, 0)
extrude "Extrusion21" add sketch "Sketch27" along normal blind 5.5
sketch "Sketch28" plane through (0, 7.5, 0) normal (0, 1, 0) x (1, 0, 0)
  circle A0 centre (-50, -12.5) radius 1.65 projected
  circle A1 centre (-50, -37.5) radius 1.65 projected
  point P0 (0, 0)
hole "Hole5" at (-50, 7.5, 12.5) at (-50, 7.5, 37.5) direction (0, -1, 0) diameter 3.3 depth 8 tip angle 118
sketch "Sketch29" plane through (0, 7.5, 0) normal (0, 1, 0) x (1, 0, 0)
  circle A0 centre (-7.175, -4) radius 1.65 construction
  circle A1 centre (-24.175, -46) radius 1.65 construction
  line L0 (-7.175, -4) -> (-24.175, -46) construction
  line L1 (-7.175, -4) -> (-7.175, -46) construction
  line L2 (-7.175, -46) -> (-24.175, -46) construction
  line L3 (-7.175, -25) -> (-25.825, -25) construction
  line L4 (-25.825, -25) -> (-25.825, -46) construction
  line L5 (-16.5, -25) -> (-25.825, -25) construction
  line L6 (-24.175, -46) -> (-24.175, -25) construction
  line L7 (-15.675, -46) -> (-15.675, -4) construction
  line L8 (-40, -32.5) -> (-40, -42.5) construction
  line L9 (-40, -42.5) -> (-24.175, -42.5) construction
  line L10 (-24.175, -42.5) -> (-24.175, -46) construction
  line L11 (-15.675, -25) -> (-15.675, -46) construction
  line L12 (-15.675, -46) -> (-15.675, -4) construction
  circle A2 centre (-15.675, -46) radius 1.65 construction
  circle A3 centre (-15.675, -46) radius 1.65
  circle A4 centre (-15.675, -4) radius 1.65
  point P0 (0, 0)
  dimension "d131" = 42
  dimension "d132" = 17
  dimension "d133" = 21
  dimension "d135" = 8.5
  dimension "d136" = 15.825
  dimension "d137" = 3.5
  dimension "d138" = 21
  dimension "d139" = 3.3
  dimension "d140" = 3.3
  dimension "d141" = 3.3
extrude "Extrusion22" cut sketch "Sketch29" against normal blind 10
sketch "Sketch30" plane through (0, 7.5, 0) normal (0, 1, 0) x (1, 0, 0)
  circle A0 centre (-7.175, -4) radius 1.65 projected
  circle A1 centre (-7.175, -4) radius 2.1021
  circle A2 centre (-24.175, -46) radius 1.65 projected
  circle A3 centre (-24.175, -46) radius 2.9173
  point P0 (0, 0)
extrude "Extrusion23" add sketch "Sketch30" against normal blind 7.5 contours A0 | A1 | A2 | A3
sketch "Sketch31" plane through (0, 25, 0) normal (0, 1, 0) x (1, 0, 0)
  line L0 (0, -50) -> (-177.5, -50)
  line L1 (-177.5, -50) -> (-177.5, 0)
  line L2 (-177.5, 0) -> (0, 0)
  line L3 (0, 0) -> (0, -50)
extrude "Extrusion24" cut sketch "Sketch31" against normal blind 100
sketch "Sketch32" plane through (-177.5, 0, 42.5) normal (1, 0, 0) x (0, 0, -1)
  line L0 (56.75, 7.5) -> (-21.75, 7.5) construction
  line L1 (0, 0) -> (-7.5, 0) construction
  line L2 (0, 7.5) -> (-7.5, 0) construction
  line L3 (-7.5, 0) -> (-7.5, 7.5) construction
  line L4 (0, 0) -> (0, 5.5) construction
  line L5 (-7.5, 7.5) -> (0, 0) construction
  line L6 (35, 5.5) -> (35, 0) construction
  line L7 (35, 0) -> (42.5, 7.5) construction
  line L8 (35, 7.5) -> (42.5, 0) construction
  point P0 (38.75, 3.75)
  point P1 (-3.75, 3.75)
hole "Hole6" at (-177.5, 3.75, 3.75) at (-177.5, 3.75, 46.25) direction (-1, 0, 0) diameter 5 depth 15
sketch "Sketch33" plane through (-306.6488, -2.5, -25) normal (0, 0, -1) x (-1, 0, 0)
  circle A0 centre (-7.4488, 5.4) radius 2 projected
  circle A1 centre (-7.4488, 5.4) radius 2
  circle A2 centre (-7.4488, 5.4) radius 1.875
  point P0 (-306.6488, 2.5)
  dimension "d155" = 3.75
extrude "Extrusion25" add sketch "Sketch33" against normal blind 100
sketch "Sketch34" plane through (0, 7.5, 0) normal (0, 1, 0) x (1, 0, 0)
  line L0 (-288.25, -67.5) -> (-306.6488, -67.5) projected
  line L1 (-306.6488, 17.5) -> (-288.25, 17.5) projected
  line L2 (-288.25, -67.5) -> (-306.6488, -67.5)
  line L3 (-306.6488, -67.5) -> (-306.6488, 17.5)
  line L4 (-306.6488, 17.5) -> (-288.25, 17.5)
  line L5 (-288.25, 17.5) -> (-288.25, -67.5)
  point P0 (0, 0)
extrude "Extrusion26" cut sketch "Sketch34" against normal blind 100
properties part number "mtv_frame(BrakeInBack)1-13"
